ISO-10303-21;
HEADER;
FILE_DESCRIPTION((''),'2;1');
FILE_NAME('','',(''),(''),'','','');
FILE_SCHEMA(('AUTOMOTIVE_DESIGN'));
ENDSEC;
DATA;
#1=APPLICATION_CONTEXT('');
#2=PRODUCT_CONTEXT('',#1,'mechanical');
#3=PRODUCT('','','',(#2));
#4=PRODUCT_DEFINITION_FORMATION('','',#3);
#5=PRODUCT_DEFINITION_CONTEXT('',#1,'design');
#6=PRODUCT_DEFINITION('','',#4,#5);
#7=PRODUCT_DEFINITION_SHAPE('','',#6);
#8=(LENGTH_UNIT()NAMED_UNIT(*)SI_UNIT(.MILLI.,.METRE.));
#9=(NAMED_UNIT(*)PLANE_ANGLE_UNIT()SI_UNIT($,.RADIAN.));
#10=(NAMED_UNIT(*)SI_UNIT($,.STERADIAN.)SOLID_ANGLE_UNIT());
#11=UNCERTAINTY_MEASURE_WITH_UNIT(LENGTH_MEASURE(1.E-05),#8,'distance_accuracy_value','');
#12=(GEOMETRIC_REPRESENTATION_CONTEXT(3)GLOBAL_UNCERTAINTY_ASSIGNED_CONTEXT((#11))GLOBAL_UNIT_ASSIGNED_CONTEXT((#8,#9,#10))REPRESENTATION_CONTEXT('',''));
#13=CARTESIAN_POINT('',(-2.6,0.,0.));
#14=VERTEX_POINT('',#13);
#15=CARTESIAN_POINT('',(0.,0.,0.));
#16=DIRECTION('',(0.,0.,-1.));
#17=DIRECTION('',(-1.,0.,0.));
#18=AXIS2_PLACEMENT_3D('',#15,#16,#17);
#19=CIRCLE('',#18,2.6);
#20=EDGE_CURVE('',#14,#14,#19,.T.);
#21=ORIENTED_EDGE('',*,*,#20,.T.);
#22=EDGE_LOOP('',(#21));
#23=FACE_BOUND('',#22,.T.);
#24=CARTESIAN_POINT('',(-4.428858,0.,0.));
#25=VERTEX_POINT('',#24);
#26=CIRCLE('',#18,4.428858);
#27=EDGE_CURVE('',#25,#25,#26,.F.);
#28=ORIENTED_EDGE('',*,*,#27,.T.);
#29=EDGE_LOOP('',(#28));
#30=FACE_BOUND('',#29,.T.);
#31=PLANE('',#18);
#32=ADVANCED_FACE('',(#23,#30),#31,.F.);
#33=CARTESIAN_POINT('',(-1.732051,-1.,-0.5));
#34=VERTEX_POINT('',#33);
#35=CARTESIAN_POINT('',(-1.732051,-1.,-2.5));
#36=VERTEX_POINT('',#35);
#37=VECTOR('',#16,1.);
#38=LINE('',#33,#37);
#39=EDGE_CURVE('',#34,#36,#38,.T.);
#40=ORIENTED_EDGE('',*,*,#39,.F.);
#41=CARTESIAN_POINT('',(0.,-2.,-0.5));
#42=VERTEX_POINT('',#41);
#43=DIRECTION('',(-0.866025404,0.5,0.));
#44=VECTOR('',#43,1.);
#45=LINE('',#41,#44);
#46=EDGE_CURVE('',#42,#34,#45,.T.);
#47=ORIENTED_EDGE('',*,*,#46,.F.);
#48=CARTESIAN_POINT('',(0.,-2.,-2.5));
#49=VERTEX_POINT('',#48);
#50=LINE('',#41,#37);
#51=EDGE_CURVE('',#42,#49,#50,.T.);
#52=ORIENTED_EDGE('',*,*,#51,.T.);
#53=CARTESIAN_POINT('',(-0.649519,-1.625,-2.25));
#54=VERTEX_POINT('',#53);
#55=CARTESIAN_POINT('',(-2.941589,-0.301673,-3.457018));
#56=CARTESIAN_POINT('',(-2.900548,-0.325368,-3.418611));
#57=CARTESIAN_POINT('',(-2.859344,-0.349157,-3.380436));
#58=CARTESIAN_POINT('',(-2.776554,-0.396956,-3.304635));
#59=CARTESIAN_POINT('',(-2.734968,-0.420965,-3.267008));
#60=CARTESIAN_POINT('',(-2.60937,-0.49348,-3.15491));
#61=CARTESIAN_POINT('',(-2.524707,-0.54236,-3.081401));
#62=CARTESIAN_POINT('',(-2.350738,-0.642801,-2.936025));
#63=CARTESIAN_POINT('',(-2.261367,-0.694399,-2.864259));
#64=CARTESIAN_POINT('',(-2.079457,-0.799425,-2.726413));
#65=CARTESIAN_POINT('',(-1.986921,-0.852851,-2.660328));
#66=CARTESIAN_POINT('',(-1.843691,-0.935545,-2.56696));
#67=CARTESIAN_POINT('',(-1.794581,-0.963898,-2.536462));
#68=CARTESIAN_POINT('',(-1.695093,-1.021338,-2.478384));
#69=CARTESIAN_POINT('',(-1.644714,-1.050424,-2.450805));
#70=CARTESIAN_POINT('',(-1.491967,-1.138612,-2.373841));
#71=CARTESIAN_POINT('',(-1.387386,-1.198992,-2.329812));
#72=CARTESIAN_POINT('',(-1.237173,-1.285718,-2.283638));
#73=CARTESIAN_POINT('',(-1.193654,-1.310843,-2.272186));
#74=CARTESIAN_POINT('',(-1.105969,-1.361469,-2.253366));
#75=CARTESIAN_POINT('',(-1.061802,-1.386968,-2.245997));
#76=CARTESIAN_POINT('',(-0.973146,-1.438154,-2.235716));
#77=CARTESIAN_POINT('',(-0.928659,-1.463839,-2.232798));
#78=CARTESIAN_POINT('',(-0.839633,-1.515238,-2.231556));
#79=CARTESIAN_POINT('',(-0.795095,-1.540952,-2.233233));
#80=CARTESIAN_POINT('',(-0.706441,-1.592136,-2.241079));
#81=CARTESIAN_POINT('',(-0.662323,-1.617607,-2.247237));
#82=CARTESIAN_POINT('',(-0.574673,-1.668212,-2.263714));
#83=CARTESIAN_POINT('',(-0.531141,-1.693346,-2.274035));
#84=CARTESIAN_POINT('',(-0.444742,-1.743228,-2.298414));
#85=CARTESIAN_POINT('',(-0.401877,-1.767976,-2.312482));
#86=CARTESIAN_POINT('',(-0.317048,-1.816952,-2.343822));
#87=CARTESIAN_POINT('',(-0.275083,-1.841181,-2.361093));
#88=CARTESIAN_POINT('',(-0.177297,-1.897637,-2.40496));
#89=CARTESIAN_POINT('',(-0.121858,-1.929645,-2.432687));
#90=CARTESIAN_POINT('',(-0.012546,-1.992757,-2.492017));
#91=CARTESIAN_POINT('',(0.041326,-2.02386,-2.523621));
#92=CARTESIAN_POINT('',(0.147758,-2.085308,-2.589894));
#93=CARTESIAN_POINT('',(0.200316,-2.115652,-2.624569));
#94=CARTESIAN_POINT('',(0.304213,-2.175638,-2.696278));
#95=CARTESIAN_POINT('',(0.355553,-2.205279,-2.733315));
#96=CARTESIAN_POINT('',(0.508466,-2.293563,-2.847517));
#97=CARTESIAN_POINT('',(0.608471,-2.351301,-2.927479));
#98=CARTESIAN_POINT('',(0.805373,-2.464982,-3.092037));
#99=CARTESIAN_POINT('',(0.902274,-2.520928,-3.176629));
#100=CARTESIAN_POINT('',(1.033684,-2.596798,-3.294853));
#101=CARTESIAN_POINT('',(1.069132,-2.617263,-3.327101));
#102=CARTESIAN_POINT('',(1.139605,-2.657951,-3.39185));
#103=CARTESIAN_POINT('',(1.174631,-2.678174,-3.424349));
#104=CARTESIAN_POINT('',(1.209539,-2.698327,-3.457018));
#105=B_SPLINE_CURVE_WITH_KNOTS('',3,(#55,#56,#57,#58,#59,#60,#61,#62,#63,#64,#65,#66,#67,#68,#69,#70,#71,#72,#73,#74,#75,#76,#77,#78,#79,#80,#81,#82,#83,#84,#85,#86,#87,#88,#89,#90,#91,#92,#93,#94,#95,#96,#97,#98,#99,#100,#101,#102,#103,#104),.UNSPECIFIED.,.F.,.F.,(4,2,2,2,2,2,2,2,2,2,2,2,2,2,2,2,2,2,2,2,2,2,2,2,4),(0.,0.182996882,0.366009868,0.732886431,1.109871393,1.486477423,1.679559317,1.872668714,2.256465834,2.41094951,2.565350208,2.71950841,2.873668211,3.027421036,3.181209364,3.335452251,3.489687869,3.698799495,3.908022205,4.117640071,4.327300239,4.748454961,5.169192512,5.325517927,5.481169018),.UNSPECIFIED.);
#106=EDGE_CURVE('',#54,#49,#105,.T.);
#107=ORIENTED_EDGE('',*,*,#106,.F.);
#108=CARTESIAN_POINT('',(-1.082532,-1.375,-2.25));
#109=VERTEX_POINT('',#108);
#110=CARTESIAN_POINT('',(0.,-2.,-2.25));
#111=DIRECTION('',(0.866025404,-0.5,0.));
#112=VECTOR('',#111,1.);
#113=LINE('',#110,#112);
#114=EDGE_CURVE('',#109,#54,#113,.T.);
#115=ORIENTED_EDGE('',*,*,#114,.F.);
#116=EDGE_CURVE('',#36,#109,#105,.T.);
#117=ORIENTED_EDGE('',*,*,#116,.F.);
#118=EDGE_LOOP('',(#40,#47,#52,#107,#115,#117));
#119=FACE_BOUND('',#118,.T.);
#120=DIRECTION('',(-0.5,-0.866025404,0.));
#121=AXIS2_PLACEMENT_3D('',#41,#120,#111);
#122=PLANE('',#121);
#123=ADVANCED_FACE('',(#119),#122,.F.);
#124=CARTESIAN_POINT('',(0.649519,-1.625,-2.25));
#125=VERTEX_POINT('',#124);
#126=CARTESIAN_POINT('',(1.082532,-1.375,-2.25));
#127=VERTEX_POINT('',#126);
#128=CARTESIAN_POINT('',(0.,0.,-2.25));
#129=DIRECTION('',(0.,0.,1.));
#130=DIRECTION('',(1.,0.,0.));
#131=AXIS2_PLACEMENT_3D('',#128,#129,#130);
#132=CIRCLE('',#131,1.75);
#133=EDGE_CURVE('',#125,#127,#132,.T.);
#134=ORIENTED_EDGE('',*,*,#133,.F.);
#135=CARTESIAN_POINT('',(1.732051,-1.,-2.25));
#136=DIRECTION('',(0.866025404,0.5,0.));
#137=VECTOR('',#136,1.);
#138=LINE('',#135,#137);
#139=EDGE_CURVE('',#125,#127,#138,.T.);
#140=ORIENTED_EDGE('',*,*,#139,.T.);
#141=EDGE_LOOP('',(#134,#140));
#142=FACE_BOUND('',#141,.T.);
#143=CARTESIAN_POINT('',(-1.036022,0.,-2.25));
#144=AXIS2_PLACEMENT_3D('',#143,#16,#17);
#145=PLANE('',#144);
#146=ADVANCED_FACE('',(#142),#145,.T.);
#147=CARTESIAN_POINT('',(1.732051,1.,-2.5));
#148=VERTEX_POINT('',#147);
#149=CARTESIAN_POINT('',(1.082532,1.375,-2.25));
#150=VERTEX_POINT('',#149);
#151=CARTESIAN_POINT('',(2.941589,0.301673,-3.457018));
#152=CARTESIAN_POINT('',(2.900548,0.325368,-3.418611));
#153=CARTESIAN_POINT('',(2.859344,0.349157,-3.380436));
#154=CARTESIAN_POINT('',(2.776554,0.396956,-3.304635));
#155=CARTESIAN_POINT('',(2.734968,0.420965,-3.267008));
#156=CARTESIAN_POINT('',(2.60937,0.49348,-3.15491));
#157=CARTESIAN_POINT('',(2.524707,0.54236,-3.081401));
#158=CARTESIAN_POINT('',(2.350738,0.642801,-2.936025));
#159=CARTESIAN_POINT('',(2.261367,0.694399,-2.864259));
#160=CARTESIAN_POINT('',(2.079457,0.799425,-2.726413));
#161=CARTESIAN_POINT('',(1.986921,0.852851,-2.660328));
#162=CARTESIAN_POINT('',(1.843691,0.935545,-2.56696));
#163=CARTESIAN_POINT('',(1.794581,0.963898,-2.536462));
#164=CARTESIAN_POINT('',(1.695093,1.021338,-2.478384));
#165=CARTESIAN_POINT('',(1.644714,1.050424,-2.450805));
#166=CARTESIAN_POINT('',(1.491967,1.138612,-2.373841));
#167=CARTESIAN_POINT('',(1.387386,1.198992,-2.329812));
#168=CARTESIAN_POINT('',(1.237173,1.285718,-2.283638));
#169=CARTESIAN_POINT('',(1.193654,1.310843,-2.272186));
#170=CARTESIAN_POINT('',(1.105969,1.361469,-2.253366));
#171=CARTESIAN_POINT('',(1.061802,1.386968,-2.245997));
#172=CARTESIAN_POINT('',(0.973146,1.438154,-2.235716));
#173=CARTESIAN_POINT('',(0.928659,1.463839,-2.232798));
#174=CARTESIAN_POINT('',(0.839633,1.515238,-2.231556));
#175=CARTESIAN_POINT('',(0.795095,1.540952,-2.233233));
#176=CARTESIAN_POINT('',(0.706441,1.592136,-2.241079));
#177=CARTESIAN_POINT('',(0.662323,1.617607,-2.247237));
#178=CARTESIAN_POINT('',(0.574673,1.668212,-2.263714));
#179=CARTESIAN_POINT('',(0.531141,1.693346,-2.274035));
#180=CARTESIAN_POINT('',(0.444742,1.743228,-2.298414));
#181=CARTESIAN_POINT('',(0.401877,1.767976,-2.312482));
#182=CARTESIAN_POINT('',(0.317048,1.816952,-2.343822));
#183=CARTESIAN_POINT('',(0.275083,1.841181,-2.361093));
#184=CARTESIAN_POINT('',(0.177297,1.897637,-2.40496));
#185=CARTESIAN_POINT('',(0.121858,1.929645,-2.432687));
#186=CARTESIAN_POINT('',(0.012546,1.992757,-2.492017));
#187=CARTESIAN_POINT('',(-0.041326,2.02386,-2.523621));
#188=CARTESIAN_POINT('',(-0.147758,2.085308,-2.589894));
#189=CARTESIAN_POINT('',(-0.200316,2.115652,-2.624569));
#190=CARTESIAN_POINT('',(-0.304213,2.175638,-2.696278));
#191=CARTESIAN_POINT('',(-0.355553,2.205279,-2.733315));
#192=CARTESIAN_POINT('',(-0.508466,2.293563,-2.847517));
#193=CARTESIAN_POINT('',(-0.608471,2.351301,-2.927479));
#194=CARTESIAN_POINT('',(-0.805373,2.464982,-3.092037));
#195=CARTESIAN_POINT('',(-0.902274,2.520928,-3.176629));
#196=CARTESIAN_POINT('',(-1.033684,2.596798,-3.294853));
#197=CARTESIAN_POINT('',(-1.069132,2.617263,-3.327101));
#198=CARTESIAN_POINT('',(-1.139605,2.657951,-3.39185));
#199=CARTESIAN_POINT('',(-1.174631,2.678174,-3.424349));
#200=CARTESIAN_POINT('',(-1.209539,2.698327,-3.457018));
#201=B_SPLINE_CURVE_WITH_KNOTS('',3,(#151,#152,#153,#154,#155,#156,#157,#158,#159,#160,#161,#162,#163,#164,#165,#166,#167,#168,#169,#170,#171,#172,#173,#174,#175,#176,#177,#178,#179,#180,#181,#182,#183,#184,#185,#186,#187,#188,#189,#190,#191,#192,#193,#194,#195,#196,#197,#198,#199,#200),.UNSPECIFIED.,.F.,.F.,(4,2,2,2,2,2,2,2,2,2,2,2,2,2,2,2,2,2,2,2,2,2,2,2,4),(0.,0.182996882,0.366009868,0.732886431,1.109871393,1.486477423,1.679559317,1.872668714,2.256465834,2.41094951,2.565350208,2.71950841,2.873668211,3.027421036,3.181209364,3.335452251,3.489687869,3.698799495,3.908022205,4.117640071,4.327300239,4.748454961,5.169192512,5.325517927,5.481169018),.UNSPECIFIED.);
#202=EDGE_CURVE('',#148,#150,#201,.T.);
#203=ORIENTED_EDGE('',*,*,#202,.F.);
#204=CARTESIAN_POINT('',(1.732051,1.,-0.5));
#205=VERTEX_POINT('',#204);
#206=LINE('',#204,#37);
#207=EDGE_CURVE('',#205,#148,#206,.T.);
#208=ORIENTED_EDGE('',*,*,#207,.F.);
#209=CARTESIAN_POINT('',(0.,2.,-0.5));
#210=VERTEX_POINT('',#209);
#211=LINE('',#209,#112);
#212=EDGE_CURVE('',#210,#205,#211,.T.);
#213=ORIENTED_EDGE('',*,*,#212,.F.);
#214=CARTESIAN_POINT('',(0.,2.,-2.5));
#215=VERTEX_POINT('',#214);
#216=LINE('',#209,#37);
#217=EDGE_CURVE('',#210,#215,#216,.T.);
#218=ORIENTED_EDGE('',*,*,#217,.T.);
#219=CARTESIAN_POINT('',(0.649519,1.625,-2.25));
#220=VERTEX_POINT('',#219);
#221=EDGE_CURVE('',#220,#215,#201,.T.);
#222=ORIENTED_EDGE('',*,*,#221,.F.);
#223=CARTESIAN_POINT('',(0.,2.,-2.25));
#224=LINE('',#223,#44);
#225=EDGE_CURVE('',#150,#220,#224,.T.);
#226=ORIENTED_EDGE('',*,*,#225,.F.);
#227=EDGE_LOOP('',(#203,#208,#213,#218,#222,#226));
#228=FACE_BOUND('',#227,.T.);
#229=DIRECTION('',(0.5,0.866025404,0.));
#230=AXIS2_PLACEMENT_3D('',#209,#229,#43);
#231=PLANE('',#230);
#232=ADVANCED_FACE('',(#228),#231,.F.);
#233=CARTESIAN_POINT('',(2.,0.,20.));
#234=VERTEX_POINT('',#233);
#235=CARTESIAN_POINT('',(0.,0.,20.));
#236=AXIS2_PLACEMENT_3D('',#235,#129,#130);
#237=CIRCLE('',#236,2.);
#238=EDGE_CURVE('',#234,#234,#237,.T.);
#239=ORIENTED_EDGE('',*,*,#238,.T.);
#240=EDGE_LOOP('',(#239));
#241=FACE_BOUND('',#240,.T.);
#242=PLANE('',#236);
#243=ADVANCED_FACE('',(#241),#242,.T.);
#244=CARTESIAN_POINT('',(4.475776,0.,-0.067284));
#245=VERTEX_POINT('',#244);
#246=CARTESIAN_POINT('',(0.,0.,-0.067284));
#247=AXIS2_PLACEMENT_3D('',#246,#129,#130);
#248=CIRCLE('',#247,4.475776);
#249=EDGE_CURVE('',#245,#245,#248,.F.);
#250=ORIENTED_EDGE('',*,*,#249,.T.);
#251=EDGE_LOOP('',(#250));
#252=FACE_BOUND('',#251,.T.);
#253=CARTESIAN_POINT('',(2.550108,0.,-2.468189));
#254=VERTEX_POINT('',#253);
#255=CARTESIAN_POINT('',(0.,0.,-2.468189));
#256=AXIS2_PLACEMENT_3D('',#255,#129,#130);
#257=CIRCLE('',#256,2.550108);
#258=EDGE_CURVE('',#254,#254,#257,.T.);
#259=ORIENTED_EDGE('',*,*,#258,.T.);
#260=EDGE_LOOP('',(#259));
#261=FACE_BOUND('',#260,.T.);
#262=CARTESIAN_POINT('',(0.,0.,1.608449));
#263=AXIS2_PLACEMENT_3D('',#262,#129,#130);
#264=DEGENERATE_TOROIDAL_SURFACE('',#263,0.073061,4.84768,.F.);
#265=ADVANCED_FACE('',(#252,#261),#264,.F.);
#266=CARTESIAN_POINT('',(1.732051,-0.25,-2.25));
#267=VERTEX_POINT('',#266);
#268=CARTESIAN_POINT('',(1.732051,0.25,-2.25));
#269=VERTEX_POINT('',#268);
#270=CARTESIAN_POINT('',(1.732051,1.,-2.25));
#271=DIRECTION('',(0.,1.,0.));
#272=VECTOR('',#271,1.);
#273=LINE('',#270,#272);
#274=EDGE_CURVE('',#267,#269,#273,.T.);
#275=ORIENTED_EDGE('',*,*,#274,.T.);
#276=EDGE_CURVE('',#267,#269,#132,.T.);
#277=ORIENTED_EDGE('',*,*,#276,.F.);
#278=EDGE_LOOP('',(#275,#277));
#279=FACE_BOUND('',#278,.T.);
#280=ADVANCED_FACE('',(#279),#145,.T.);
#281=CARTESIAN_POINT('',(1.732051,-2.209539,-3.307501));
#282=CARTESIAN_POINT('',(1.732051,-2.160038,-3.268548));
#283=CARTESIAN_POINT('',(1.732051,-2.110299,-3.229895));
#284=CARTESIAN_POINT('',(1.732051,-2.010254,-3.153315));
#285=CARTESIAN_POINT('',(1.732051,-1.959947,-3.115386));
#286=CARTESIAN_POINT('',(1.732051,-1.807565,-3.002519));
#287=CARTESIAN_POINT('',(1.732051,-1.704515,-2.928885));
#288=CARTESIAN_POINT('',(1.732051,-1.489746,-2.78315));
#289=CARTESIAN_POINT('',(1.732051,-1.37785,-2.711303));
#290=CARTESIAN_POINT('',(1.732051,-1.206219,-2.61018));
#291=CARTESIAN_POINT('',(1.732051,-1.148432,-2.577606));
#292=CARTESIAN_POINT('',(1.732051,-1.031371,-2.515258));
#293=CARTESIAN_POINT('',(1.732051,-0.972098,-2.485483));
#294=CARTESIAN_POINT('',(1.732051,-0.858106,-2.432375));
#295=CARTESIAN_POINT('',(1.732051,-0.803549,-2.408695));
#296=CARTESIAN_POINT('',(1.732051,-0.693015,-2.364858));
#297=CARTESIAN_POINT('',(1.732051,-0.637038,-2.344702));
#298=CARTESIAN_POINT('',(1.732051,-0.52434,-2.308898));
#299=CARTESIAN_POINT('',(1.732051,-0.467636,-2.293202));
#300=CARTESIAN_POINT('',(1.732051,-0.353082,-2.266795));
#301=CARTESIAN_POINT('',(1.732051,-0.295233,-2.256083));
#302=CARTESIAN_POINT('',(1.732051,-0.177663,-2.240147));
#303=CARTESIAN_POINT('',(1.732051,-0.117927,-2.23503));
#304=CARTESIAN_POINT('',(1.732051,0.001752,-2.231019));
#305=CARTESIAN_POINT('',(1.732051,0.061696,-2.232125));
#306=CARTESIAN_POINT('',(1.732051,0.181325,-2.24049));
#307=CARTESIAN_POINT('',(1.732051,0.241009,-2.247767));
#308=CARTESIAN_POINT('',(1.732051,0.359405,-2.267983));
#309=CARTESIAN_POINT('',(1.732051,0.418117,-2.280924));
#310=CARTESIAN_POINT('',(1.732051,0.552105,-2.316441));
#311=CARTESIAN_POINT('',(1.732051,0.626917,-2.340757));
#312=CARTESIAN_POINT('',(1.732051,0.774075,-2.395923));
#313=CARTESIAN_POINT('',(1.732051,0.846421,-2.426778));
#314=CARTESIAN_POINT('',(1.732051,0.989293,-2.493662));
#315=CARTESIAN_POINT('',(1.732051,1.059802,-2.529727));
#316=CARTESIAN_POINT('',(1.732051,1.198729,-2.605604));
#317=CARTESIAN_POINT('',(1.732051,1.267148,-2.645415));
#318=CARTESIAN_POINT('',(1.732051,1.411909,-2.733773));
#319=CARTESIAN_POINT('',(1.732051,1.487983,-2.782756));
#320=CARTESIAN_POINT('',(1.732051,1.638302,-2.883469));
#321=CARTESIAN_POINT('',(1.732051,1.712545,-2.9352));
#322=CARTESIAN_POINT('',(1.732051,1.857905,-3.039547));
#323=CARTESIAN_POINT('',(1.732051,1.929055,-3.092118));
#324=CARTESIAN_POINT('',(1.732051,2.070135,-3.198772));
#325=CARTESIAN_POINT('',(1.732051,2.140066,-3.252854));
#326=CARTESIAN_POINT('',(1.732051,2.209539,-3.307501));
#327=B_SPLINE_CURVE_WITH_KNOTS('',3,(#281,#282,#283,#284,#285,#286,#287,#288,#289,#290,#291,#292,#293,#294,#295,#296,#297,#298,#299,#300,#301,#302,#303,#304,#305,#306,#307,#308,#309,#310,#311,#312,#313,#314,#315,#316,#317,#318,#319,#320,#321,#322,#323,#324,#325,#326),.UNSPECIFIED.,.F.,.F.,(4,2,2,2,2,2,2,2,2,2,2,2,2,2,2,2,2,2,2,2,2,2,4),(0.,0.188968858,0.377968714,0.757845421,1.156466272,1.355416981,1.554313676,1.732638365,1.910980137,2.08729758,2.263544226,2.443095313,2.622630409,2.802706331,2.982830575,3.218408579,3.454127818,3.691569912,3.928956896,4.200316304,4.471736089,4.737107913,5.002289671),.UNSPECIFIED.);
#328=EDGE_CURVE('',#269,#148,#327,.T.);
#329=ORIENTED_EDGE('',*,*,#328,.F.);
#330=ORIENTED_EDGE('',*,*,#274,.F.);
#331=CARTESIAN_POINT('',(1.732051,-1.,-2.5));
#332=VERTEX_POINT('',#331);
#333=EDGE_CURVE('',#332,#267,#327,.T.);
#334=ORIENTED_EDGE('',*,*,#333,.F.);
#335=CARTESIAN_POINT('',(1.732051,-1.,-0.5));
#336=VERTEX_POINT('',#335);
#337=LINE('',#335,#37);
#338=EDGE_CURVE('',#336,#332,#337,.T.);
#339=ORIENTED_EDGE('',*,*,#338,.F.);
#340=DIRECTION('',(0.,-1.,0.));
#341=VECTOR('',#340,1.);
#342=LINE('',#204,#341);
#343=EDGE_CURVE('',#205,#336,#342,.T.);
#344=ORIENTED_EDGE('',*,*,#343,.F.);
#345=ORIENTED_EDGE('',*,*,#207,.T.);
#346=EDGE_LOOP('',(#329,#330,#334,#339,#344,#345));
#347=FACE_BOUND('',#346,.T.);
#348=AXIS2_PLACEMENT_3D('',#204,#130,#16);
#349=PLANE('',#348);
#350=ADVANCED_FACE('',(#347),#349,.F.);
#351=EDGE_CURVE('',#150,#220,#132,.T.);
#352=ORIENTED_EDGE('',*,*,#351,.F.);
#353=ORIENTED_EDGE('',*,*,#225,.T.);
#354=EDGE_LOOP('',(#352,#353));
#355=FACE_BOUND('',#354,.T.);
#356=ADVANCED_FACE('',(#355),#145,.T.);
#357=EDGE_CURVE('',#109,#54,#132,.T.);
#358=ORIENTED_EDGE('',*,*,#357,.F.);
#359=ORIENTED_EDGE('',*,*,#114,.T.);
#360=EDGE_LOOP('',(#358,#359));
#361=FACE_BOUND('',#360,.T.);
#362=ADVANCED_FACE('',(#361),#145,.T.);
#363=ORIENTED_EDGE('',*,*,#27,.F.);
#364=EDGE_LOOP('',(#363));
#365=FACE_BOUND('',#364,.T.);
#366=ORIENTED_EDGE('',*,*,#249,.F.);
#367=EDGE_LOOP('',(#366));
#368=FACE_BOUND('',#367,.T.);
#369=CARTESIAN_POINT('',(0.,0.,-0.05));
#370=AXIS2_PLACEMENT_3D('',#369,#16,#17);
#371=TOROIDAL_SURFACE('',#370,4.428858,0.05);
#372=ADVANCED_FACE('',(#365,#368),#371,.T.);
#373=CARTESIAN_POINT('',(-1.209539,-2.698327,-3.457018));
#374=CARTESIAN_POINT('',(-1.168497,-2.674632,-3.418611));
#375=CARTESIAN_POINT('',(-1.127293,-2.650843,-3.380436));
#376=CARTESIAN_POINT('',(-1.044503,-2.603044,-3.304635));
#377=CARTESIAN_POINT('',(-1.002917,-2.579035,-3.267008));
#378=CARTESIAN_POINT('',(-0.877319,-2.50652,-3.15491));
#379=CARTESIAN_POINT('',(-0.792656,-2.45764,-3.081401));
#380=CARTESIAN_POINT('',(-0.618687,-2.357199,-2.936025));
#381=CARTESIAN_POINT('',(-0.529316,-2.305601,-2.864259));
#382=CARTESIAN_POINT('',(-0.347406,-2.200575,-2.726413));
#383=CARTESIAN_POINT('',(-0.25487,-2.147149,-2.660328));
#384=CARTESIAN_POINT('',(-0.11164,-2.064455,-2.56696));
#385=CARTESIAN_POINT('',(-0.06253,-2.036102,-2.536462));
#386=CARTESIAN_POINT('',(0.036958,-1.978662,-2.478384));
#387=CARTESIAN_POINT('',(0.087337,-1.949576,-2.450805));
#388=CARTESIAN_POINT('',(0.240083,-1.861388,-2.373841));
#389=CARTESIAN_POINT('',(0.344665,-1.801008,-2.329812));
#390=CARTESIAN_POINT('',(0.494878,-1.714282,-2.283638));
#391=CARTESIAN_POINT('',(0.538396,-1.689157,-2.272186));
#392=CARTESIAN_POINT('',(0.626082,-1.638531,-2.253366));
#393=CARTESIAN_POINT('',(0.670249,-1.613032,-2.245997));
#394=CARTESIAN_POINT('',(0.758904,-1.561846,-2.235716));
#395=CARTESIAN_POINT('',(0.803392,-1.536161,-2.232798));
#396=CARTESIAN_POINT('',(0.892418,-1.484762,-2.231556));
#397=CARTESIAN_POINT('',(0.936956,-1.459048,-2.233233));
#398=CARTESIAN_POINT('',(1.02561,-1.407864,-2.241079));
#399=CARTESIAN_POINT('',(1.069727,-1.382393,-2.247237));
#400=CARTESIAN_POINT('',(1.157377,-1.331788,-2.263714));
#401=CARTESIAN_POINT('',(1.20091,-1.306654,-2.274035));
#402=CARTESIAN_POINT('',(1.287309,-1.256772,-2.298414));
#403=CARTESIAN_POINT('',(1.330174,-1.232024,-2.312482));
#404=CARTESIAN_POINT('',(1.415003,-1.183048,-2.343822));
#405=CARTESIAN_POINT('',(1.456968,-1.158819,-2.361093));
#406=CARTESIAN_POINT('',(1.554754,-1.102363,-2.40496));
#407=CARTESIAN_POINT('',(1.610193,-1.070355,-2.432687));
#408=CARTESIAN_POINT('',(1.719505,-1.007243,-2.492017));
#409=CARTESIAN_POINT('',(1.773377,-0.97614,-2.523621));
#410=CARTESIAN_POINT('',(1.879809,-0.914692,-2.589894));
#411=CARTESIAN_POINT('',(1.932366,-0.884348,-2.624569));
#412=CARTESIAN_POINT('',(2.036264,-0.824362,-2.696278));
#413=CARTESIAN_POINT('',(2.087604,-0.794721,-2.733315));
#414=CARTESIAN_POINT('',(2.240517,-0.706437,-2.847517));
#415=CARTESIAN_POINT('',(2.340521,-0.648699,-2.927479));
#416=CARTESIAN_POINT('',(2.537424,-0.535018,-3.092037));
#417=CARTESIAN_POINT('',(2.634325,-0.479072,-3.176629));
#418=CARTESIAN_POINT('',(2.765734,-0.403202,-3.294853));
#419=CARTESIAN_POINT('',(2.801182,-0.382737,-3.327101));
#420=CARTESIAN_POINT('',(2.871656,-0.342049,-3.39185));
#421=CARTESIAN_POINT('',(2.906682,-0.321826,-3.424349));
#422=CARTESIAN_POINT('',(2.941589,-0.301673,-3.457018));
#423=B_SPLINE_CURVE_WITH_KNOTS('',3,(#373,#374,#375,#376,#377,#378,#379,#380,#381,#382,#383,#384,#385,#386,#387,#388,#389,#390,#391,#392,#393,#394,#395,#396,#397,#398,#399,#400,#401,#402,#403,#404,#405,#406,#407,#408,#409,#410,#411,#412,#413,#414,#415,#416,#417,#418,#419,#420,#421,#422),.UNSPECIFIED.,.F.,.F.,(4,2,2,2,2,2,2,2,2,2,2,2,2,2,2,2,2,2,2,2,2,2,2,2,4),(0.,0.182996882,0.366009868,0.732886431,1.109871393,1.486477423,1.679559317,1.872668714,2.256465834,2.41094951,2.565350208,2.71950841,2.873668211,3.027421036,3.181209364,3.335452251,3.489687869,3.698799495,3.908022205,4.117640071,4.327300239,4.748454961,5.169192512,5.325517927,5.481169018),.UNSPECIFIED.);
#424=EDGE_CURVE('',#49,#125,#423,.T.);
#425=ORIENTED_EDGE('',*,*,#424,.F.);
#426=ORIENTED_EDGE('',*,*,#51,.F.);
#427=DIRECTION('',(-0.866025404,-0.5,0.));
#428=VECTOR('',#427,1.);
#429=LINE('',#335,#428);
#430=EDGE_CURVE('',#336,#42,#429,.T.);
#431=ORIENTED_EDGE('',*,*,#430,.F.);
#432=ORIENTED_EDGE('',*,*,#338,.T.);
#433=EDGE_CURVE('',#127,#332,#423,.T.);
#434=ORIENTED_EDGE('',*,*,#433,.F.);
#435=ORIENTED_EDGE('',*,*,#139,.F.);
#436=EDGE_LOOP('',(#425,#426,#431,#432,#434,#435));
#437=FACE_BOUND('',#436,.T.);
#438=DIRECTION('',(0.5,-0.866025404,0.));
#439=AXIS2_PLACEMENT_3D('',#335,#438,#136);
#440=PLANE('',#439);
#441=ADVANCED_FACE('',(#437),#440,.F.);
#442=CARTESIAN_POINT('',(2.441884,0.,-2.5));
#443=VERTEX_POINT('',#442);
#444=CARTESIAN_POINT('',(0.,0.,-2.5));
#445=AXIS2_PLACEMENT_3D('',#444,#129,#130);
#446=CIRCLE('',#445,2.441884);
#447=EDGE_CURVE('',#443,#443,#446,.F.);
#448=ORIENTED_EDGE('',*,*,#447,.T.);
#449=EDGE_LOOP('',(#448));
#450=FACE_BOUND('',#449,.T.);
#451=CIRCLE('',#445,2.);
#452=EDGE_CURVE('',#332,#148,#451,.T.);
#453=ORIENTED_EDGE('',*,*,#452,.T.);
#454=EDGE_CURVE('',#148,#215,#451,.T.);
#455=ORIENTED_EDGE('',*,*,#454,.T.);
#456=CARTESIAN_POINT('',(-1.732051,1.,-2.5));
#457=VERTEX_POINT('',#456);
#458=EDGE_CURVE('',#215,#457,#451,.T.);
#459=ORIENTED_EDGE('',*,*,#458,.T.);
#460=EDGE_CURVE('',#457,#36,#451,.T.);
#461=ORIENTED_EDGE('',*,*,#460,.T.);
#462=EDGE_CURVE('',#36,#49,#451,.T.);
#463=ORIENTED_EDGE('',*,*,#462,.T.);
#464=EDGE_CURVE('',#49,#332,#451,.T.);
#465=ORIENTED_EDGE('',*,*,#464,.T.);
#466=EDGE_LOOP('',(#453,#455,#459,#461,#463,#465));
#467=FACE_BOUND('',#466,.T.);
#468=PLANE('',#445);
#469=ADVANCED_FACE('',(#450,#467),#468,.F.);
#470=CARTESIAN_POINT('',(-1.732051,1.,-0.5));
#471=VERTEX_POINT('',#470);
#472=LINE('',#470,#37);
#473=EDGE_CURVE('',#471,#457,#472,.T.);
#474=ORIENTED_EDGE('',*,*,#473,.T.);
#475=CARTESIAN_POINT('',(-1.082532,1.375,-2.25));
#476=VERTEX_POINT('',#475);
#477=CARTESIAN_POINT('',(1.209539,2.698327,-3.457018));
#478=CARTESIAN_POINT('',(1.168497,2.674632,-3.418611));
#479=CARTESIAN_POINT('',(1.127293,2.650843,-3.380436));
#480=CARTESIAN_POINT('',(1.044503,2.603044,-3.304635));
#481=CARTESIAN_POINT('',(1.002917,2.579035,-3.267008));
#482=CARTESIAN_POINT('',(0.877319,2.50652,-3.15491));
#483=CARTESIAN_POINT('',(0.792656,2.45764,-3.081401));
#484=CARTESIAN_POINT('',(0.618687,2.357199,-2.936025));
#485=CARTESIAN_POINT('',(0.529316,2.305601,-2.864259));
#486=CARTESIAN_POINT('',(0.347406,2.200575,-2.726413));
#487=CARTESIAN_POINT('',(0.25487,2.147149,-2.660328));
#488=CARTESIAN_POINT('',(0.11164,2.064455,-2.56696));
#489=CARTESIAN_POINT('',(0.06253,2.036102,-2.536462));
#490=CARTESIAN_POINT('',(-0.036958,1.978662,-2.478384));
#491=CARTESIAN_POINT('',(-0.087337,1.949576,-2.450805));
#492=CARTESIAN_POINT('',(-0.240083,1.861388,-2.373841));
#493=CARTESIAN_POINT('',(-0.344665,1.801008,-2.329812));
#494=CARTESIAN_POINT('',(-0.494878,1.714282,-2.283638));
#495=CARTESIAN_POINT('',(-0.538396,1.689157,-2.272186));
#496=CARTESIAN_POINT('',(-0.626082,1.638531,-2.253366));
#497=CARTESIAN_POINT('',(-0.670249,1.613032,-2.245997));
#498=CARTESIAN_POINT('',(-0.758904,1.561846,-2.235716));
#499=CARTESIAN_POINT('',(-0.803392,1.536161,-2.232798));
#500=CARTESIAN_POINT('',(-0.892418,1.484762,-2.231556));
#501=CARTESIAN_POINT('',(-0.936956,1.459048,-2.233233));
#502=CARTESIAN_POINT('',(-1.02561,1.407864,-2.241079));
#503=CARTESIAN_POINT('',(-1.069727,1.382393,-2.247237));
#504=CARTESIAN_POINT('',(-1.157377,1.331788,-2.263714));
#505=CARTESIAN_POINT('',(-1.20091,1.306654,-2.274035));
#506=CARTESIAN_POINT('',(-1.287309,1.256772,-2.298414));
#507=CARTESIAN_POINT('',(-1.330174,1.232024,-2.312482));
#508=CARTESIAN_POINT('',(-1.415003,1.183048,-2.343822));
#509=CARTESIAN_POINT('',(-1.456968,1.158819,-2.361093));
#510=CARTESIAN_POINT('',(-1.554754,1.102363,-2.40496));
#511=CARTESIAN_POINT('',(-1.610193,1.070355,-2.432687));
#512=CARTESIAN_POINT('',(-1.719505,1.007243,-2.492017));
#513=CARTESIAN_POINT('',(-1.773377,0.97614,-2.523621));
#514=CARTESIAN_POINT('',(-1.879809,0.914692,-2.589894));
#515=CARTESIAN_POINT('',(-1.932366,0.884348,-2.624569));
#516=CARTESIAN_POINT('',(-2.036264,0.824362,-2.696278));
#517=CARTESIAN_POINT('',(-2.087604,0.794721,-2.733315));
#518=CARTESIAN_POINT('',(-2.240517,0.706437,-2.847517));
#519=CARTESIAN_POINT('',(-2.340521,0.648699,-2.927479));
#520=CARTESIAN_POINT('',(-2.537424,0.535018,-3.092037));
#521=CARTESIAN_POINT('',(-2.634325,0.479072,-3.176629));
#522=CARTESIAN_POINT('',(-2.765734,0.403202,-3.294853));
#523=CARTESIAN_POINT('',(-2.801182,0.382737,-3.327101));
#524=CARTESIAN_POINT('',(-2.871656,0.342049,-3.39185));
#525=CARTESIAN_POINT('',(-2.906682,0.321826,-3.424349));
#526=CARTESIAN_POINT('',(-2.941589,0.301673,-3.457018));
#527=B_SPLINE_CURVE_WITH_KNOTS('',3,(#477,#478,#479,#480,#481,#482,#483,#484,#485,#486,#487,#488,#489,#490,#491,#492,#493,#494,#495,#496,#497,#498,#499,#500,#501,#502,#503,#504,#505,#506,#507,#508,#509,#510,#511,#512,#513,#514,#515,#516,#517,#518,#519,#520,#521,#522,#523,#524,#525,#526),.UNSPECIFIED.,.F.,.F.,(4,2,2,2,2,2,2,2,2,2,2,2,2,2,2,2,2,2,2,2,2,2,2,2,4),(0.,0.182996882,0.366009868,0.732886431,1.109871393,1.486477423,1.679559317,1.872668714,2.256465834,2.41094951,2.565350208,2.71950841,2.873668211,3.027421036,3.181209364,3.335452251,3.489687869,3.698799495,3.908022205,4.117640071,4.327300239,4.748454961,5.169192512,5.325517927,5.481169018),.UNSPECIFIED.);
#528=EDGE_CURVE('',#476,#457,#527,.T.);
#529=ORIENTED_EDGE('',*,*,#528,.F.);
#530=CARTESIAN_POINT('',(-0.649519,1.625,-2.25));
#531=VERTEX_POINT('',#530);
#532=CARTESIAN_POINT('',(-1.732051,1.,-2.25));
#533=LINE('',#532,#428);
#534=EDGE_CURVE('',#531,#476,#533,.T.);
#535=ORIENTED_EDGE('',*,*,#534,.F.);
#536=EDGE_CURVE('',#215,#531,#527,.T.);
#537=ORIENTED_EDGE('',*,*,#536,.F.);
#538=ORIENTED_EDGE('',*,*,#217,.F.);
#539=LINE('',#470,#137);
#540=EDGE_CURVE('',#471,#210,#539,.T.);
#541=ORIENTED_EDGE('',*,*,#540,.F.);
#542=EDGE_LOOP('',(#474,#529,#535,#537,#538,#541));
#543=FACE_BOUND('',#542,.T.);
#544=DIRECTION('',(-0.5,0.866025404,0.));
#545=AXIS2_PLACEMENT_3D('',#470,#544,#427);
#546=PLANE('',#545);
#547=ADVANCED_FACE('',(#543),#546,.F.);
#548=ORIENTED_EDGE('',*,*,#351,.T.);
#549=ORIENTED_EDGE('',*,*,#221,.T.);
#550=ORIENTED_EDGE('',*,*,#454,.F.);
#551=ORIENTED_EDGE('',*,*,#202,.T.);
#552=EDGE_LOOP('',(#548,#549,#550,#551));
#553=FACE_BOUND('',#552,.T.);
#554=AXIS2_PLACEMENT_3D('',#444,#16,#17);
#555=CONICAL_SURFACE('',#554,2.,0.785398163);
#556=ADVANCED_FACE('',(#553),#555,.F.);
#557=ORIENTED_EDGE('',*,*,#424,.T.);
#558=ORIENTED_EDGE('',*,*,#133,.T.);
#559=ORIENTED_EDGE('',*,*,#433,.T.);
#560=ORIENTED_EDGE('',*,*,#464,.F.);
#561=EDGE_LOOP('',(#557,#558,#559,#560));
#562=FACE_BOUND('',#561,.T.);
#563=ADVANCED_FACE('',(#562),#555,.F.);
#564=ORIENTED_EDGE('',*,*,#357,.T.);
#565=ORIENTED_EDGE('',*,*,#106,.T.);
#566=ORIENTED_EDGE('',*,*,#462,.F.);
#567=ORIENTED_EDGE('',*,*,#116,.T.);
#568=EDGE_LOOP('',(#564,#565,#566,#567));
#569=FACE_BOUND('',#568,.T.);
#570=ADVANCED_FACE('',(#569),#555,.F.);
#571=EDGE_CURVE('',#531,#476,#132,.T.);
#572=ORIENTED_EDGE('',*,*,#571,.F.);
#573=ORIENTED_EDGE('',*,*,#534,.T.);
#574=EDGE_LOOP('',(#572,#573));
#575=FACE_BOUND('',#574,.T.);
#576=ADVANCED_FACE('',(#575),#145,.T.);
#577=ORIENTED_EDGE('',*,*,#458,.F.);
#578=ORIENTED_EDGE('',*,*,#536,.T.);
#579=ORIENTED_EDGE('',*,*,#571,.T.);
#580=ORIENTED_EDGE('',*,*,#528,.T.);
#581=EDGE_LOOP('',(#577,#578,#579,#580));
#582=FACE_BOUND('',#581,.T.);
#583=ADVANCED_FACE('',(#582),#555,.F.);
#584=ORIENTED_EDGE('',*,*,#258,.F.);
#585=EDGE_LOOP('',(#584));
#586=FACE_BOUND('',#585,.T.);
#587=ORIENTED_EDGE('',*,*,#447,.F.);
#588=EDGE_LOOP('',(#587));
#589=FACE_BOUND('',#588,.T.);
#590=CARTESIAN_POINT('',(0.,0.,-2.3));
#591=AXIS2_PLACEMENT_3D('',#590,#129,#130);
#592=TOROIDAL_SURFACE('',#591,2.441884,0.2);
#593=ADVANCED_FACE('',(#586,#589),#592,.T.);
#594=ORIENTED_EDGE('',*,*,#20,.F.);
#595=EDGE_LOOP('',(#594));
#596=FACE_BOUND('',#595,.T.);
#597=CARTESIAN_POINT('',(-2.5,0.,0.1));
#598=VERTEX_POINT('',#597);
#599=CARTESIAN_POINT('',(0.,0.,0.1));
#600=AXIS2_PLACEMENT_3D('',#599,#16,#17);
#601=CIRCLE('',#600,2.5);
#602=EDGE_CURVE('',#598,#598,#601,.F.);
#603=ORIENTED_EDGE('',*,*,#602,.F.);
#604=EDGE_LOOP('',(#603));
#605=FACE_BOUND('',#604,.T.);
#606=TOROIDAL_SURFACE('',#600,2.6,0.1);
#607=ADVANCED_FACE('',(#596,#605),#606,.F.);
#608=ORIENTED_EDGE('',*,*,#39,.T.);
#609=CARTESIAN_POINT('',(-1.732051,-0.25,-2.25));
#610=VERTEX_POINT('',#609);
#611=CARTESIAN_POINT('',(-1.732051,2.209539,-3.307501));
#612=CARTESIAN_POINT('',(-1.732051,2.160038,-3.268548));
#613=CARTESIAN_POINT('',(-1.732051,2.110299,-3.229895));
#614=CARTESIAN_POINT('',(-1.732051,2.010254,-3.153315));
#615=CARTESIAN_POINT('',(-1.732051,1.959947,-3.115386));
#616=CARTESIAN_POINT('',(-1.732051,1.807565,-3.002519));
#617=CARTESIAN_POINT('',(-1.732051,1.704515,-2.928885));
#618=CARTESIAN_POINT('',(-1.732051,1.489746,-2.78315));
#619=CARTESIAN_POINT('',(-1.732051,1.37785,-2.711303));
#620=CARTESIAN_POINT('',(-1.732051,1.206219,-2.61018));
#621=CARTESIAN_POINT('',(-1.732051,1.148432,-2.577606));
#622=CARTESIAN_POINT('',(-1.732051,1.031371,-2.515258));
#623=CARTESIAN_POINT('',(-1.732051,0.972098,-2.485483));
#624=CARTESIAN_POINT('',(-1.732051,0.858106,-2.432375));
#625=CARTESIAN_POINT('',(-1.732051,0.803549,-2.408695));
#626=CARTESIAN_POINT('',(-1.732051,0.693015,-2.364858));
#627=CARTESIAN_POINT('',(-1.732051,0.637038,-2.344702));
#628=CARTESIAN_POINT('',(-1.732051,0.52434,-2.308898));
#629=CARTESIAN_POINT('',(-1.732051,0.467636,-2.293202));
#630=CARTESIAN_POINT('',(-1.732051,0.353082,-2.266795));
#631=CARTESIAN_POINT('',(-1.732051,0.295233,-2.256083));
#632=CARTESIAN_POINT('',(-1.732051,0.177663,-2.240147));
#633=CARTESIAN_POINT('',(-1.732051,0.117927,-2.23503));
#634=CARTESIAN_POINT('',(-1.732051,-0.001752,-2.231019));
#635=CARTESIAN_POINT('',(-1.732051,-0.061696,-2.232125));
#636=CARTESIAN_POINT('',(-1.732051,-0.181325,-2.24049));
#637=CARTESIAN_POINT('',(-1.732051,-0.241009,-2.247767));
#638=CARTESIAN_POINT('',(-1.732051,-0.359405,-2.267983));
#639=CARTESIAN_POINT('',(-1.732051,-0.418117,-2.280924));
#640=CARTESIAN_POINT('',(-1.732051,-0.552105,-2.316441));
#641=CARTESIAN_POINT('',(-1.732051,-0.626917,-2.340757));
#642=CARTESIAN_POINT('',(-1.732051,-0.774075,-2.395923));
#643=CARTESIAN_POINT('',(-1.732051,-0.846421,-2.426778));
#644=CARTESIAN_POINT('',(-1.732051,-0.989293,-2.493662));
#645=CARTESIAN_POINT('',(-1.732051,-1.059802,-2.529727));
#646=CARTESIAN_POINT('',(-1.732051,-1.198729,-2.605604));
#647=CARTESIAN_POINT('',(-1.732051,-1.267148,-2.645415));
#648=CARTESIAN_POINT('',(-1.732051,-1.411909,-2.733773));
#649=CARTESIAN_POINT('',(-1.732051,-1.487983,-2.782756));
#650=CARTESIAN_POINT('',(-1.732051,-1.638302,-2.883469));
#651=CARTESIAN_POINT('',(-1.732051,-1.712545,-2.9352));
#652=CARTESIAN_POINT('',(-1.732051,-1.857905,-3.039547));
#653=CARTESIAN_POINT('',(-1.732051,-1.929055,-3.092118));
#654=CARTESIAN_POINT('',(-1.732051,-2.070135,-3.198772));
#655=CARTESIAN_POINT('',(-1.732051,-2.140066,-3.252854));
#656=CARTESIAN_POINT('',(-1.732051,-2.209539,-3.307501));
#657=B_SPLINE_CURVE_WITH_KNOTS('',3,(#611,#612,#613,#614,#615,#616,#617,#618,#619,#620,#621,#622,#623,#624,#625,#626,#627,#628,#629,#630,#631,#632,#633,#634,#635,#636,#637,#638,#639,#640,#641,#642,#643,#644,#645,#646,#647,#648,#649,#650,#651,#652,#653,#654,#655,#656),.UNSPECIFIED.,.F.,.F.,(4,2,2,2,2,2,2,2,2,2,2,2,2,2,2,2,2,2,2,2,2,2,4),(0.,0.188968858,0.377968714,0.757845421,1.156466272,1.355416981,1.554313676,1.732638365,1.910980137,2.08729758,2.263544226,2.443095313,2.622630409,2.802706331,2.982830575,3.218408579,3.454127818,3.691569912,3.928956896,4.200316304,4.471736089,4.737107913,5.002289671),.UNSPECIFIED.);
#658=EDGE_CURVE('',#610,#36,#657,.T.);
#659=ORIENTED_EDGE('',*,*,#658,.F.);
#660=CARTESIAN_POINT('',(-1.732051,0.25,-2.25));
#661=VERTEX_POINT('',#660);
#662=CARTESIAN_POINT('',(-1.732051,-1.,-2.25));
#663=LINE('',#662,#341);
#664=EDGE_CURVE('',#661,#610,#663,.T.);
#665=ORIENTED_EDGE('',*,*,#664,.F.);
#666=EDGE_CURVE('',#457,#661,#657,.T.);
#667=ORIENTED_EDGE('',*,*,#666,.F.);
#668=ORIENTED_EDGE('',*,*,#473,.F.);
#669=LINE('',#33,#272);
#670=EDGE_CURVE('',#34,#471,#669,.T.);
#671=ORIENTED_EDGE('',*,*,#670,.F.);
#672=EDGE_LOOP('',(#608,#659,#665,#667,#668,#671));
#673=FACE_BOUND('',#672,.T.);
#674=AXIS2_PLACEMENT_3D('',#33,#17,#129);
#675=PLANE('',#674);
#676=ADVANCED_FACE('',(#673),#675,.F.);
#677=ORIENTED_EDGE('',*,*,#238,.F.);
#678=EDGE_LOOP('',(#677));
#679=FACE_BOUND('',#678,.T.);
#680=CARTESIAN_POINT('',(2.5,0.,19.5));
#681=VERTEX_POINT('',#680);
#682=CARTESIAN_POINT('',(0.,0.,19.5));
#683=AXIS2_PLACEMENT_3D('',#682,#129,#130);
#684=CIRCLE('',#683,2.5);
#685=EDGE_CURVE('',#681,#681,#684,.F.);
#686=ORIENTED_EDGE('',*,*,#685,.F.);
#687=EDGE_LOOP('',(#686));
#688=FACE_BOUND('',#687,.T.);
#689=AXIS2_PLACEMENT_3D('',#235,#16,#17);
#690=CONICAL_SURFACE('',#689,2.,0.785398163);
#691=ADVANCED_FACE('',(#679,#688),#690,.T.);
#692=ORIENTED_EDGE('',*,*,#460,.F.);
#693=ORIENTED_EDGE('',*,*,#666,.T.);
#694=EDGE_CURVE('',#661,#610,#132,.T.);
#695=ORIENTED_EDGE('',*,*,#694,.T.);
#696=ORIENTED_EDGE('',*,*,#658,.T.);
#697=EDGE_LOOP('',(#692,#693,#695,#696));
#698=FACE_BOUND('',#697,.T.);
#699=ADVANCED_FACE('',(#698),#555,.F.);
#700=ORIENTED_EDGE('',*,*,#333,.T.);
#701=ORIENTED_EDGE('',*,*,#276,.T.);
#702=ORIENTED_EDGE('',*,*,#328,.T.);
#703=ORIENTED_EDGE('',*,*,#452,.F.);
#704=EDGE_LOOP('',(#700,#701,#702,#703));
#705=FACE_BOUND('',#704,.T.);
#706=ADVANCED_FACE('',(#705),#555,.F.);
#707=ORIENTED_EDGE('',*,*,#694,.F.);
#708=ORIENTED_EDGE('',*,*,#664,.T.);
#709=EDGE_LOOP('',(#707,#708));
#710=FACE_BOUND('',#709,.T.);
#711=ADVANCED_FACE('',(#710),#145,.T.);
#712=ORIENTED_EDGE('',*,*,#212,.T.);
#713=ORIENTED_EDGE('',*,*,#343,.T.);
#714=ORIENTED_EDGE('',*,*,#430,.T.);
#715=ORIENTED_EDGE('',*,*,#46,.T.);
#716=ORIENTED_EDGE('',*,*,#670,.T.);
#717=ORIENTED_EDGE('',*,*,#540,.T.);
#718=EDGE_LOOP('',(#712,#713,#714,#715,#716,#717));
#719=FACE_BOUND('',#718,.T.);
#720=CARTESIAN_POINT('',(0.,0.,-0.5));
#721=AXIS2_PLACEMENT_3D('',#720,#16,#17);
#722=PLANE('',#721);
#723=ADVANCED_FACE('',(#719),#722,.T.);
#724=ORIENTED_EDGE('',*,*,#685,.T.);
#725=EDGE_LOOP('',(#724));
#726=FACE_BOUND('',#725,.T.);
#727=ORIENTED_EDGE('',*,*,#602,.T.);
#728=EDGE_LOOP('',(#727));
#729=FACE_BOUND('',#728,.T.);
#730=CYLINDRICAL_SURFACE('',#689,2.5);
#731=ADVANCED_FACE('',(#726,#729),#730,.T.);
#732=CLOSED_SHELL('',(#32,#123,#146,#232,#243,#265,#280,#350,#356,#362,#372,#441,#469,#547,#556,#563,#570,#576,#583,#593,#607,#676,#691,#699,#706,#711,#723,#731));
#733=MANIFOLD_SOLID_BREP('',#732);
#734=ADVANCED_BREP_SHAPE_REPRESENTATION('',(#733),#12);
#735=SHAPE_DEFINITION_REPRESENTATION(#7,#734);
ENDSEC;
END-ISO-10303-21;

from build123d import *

# Parameters (mm, degrees)
SCHIZZO1_R                   = 2.5
ESTRUSIONE_ESTRUSIONE1_DEPTH = 20
TAGLIO_ESTRUSIONE1_DEPTH     = 2
RACCORDO1_R                  = 0.1
SMUSSO1_SIZE                 = 0.5
RACCORDO2_R                  = 0.2
RACCORDO3_R                  = 0.05


with BuildPart() as part:
    # Schizzo1 → Estrusione-Estrusione1 (new body)
    with BuildSketch(Plane.XY):
        Circle(SCHIZZO1_R)
    extrude(amount=ESTRUSIONE_ESTRUSIONE1_DEPTH)

    # Schizzo3 → Rivoluzione1 (revolve)
    with BuildSketch(Plane(origin=(0, 0, 0), x_dir=(0, 0, -1), z_dir=(1, 0, 0))):
        with BuildLine():
            Line((0, 0), (0, 4.5))
            ThreePointArc((0, 4.5), (1.41987242, 3.712340525), (2.5, 2.5))
            Line((2.5, 2.5), (2.5, 0))
            Line((2.5, 0), (0, 0))
        make_face()
    revolve(axis=Axis((0, 0, 0), (0, 0, -1)))

    # Schizzo4 → Taglio-Estrusione1 (cut)
    with BuildSketch(Plane(origin=(0, 0, -2.5), x_dir=(-1, 0, 0), z_dir=(0, 0, -1))):
        Polygon((0, 2), (-1.732050808, 1), (-1.732050808, -1), (0, -2), (1.732050808, -1), (1.732050808, 1), align=None)
    extrude(amount=-TAGLIO_ESTRUSIONE1_DEPTH, mode=Mode.SUBTRACT)

    # Schizzo5 → Taglia-Rivoluzione2 (revolve, cut)
    with BuildSketch(Plane(origin=(0, 0, 0), x_dir=(1, 0, 0), z_dir=(0, 1, 0))):
        Polygon((-2, 2.5), (-2, 2.930277164), (-1.036021703, 2.930277164), (-1.036021703, 2.25), (-1.75, 2.25), align=None)
    revolve(axis=Axis((0, 0, 0), (0, 0, -1)), mode=Mode.SUBTRACT)

    # Raccordo1
    raccordo1_edges = [part.edges().sort_by_distance(p)[0] for p in [
        (-2.5, 0, 0),
    ]]
    fillet(raccordo1_edges, radius=RACCORDO1_R)

    # Smusso1
    smusso1_edges = [part.edges().sort_by_distance(p)[0] for p in [
        (-2.5, 0, 20),
    ]]
    chamfer(smusso1_edges, length=SMUSSO1_SIZE)

    # Raccordo2
    raccordo2_edges = [part.edges().sort_by_distance(p)[0] for p in [
        (0, -2.5, -2.5),
    ]]
    fillet(raccordo2_edges, radius=RACCORDO2_R)

    # Raccordo3
    raccordo3_edges = [part.edges().sort_by_distance(p)[0] for p in [
        (0, -4.5, 0),
    ]]
    fillet(raccordo3_edges, radius=RACCORDO3_R)


solid = part.part
